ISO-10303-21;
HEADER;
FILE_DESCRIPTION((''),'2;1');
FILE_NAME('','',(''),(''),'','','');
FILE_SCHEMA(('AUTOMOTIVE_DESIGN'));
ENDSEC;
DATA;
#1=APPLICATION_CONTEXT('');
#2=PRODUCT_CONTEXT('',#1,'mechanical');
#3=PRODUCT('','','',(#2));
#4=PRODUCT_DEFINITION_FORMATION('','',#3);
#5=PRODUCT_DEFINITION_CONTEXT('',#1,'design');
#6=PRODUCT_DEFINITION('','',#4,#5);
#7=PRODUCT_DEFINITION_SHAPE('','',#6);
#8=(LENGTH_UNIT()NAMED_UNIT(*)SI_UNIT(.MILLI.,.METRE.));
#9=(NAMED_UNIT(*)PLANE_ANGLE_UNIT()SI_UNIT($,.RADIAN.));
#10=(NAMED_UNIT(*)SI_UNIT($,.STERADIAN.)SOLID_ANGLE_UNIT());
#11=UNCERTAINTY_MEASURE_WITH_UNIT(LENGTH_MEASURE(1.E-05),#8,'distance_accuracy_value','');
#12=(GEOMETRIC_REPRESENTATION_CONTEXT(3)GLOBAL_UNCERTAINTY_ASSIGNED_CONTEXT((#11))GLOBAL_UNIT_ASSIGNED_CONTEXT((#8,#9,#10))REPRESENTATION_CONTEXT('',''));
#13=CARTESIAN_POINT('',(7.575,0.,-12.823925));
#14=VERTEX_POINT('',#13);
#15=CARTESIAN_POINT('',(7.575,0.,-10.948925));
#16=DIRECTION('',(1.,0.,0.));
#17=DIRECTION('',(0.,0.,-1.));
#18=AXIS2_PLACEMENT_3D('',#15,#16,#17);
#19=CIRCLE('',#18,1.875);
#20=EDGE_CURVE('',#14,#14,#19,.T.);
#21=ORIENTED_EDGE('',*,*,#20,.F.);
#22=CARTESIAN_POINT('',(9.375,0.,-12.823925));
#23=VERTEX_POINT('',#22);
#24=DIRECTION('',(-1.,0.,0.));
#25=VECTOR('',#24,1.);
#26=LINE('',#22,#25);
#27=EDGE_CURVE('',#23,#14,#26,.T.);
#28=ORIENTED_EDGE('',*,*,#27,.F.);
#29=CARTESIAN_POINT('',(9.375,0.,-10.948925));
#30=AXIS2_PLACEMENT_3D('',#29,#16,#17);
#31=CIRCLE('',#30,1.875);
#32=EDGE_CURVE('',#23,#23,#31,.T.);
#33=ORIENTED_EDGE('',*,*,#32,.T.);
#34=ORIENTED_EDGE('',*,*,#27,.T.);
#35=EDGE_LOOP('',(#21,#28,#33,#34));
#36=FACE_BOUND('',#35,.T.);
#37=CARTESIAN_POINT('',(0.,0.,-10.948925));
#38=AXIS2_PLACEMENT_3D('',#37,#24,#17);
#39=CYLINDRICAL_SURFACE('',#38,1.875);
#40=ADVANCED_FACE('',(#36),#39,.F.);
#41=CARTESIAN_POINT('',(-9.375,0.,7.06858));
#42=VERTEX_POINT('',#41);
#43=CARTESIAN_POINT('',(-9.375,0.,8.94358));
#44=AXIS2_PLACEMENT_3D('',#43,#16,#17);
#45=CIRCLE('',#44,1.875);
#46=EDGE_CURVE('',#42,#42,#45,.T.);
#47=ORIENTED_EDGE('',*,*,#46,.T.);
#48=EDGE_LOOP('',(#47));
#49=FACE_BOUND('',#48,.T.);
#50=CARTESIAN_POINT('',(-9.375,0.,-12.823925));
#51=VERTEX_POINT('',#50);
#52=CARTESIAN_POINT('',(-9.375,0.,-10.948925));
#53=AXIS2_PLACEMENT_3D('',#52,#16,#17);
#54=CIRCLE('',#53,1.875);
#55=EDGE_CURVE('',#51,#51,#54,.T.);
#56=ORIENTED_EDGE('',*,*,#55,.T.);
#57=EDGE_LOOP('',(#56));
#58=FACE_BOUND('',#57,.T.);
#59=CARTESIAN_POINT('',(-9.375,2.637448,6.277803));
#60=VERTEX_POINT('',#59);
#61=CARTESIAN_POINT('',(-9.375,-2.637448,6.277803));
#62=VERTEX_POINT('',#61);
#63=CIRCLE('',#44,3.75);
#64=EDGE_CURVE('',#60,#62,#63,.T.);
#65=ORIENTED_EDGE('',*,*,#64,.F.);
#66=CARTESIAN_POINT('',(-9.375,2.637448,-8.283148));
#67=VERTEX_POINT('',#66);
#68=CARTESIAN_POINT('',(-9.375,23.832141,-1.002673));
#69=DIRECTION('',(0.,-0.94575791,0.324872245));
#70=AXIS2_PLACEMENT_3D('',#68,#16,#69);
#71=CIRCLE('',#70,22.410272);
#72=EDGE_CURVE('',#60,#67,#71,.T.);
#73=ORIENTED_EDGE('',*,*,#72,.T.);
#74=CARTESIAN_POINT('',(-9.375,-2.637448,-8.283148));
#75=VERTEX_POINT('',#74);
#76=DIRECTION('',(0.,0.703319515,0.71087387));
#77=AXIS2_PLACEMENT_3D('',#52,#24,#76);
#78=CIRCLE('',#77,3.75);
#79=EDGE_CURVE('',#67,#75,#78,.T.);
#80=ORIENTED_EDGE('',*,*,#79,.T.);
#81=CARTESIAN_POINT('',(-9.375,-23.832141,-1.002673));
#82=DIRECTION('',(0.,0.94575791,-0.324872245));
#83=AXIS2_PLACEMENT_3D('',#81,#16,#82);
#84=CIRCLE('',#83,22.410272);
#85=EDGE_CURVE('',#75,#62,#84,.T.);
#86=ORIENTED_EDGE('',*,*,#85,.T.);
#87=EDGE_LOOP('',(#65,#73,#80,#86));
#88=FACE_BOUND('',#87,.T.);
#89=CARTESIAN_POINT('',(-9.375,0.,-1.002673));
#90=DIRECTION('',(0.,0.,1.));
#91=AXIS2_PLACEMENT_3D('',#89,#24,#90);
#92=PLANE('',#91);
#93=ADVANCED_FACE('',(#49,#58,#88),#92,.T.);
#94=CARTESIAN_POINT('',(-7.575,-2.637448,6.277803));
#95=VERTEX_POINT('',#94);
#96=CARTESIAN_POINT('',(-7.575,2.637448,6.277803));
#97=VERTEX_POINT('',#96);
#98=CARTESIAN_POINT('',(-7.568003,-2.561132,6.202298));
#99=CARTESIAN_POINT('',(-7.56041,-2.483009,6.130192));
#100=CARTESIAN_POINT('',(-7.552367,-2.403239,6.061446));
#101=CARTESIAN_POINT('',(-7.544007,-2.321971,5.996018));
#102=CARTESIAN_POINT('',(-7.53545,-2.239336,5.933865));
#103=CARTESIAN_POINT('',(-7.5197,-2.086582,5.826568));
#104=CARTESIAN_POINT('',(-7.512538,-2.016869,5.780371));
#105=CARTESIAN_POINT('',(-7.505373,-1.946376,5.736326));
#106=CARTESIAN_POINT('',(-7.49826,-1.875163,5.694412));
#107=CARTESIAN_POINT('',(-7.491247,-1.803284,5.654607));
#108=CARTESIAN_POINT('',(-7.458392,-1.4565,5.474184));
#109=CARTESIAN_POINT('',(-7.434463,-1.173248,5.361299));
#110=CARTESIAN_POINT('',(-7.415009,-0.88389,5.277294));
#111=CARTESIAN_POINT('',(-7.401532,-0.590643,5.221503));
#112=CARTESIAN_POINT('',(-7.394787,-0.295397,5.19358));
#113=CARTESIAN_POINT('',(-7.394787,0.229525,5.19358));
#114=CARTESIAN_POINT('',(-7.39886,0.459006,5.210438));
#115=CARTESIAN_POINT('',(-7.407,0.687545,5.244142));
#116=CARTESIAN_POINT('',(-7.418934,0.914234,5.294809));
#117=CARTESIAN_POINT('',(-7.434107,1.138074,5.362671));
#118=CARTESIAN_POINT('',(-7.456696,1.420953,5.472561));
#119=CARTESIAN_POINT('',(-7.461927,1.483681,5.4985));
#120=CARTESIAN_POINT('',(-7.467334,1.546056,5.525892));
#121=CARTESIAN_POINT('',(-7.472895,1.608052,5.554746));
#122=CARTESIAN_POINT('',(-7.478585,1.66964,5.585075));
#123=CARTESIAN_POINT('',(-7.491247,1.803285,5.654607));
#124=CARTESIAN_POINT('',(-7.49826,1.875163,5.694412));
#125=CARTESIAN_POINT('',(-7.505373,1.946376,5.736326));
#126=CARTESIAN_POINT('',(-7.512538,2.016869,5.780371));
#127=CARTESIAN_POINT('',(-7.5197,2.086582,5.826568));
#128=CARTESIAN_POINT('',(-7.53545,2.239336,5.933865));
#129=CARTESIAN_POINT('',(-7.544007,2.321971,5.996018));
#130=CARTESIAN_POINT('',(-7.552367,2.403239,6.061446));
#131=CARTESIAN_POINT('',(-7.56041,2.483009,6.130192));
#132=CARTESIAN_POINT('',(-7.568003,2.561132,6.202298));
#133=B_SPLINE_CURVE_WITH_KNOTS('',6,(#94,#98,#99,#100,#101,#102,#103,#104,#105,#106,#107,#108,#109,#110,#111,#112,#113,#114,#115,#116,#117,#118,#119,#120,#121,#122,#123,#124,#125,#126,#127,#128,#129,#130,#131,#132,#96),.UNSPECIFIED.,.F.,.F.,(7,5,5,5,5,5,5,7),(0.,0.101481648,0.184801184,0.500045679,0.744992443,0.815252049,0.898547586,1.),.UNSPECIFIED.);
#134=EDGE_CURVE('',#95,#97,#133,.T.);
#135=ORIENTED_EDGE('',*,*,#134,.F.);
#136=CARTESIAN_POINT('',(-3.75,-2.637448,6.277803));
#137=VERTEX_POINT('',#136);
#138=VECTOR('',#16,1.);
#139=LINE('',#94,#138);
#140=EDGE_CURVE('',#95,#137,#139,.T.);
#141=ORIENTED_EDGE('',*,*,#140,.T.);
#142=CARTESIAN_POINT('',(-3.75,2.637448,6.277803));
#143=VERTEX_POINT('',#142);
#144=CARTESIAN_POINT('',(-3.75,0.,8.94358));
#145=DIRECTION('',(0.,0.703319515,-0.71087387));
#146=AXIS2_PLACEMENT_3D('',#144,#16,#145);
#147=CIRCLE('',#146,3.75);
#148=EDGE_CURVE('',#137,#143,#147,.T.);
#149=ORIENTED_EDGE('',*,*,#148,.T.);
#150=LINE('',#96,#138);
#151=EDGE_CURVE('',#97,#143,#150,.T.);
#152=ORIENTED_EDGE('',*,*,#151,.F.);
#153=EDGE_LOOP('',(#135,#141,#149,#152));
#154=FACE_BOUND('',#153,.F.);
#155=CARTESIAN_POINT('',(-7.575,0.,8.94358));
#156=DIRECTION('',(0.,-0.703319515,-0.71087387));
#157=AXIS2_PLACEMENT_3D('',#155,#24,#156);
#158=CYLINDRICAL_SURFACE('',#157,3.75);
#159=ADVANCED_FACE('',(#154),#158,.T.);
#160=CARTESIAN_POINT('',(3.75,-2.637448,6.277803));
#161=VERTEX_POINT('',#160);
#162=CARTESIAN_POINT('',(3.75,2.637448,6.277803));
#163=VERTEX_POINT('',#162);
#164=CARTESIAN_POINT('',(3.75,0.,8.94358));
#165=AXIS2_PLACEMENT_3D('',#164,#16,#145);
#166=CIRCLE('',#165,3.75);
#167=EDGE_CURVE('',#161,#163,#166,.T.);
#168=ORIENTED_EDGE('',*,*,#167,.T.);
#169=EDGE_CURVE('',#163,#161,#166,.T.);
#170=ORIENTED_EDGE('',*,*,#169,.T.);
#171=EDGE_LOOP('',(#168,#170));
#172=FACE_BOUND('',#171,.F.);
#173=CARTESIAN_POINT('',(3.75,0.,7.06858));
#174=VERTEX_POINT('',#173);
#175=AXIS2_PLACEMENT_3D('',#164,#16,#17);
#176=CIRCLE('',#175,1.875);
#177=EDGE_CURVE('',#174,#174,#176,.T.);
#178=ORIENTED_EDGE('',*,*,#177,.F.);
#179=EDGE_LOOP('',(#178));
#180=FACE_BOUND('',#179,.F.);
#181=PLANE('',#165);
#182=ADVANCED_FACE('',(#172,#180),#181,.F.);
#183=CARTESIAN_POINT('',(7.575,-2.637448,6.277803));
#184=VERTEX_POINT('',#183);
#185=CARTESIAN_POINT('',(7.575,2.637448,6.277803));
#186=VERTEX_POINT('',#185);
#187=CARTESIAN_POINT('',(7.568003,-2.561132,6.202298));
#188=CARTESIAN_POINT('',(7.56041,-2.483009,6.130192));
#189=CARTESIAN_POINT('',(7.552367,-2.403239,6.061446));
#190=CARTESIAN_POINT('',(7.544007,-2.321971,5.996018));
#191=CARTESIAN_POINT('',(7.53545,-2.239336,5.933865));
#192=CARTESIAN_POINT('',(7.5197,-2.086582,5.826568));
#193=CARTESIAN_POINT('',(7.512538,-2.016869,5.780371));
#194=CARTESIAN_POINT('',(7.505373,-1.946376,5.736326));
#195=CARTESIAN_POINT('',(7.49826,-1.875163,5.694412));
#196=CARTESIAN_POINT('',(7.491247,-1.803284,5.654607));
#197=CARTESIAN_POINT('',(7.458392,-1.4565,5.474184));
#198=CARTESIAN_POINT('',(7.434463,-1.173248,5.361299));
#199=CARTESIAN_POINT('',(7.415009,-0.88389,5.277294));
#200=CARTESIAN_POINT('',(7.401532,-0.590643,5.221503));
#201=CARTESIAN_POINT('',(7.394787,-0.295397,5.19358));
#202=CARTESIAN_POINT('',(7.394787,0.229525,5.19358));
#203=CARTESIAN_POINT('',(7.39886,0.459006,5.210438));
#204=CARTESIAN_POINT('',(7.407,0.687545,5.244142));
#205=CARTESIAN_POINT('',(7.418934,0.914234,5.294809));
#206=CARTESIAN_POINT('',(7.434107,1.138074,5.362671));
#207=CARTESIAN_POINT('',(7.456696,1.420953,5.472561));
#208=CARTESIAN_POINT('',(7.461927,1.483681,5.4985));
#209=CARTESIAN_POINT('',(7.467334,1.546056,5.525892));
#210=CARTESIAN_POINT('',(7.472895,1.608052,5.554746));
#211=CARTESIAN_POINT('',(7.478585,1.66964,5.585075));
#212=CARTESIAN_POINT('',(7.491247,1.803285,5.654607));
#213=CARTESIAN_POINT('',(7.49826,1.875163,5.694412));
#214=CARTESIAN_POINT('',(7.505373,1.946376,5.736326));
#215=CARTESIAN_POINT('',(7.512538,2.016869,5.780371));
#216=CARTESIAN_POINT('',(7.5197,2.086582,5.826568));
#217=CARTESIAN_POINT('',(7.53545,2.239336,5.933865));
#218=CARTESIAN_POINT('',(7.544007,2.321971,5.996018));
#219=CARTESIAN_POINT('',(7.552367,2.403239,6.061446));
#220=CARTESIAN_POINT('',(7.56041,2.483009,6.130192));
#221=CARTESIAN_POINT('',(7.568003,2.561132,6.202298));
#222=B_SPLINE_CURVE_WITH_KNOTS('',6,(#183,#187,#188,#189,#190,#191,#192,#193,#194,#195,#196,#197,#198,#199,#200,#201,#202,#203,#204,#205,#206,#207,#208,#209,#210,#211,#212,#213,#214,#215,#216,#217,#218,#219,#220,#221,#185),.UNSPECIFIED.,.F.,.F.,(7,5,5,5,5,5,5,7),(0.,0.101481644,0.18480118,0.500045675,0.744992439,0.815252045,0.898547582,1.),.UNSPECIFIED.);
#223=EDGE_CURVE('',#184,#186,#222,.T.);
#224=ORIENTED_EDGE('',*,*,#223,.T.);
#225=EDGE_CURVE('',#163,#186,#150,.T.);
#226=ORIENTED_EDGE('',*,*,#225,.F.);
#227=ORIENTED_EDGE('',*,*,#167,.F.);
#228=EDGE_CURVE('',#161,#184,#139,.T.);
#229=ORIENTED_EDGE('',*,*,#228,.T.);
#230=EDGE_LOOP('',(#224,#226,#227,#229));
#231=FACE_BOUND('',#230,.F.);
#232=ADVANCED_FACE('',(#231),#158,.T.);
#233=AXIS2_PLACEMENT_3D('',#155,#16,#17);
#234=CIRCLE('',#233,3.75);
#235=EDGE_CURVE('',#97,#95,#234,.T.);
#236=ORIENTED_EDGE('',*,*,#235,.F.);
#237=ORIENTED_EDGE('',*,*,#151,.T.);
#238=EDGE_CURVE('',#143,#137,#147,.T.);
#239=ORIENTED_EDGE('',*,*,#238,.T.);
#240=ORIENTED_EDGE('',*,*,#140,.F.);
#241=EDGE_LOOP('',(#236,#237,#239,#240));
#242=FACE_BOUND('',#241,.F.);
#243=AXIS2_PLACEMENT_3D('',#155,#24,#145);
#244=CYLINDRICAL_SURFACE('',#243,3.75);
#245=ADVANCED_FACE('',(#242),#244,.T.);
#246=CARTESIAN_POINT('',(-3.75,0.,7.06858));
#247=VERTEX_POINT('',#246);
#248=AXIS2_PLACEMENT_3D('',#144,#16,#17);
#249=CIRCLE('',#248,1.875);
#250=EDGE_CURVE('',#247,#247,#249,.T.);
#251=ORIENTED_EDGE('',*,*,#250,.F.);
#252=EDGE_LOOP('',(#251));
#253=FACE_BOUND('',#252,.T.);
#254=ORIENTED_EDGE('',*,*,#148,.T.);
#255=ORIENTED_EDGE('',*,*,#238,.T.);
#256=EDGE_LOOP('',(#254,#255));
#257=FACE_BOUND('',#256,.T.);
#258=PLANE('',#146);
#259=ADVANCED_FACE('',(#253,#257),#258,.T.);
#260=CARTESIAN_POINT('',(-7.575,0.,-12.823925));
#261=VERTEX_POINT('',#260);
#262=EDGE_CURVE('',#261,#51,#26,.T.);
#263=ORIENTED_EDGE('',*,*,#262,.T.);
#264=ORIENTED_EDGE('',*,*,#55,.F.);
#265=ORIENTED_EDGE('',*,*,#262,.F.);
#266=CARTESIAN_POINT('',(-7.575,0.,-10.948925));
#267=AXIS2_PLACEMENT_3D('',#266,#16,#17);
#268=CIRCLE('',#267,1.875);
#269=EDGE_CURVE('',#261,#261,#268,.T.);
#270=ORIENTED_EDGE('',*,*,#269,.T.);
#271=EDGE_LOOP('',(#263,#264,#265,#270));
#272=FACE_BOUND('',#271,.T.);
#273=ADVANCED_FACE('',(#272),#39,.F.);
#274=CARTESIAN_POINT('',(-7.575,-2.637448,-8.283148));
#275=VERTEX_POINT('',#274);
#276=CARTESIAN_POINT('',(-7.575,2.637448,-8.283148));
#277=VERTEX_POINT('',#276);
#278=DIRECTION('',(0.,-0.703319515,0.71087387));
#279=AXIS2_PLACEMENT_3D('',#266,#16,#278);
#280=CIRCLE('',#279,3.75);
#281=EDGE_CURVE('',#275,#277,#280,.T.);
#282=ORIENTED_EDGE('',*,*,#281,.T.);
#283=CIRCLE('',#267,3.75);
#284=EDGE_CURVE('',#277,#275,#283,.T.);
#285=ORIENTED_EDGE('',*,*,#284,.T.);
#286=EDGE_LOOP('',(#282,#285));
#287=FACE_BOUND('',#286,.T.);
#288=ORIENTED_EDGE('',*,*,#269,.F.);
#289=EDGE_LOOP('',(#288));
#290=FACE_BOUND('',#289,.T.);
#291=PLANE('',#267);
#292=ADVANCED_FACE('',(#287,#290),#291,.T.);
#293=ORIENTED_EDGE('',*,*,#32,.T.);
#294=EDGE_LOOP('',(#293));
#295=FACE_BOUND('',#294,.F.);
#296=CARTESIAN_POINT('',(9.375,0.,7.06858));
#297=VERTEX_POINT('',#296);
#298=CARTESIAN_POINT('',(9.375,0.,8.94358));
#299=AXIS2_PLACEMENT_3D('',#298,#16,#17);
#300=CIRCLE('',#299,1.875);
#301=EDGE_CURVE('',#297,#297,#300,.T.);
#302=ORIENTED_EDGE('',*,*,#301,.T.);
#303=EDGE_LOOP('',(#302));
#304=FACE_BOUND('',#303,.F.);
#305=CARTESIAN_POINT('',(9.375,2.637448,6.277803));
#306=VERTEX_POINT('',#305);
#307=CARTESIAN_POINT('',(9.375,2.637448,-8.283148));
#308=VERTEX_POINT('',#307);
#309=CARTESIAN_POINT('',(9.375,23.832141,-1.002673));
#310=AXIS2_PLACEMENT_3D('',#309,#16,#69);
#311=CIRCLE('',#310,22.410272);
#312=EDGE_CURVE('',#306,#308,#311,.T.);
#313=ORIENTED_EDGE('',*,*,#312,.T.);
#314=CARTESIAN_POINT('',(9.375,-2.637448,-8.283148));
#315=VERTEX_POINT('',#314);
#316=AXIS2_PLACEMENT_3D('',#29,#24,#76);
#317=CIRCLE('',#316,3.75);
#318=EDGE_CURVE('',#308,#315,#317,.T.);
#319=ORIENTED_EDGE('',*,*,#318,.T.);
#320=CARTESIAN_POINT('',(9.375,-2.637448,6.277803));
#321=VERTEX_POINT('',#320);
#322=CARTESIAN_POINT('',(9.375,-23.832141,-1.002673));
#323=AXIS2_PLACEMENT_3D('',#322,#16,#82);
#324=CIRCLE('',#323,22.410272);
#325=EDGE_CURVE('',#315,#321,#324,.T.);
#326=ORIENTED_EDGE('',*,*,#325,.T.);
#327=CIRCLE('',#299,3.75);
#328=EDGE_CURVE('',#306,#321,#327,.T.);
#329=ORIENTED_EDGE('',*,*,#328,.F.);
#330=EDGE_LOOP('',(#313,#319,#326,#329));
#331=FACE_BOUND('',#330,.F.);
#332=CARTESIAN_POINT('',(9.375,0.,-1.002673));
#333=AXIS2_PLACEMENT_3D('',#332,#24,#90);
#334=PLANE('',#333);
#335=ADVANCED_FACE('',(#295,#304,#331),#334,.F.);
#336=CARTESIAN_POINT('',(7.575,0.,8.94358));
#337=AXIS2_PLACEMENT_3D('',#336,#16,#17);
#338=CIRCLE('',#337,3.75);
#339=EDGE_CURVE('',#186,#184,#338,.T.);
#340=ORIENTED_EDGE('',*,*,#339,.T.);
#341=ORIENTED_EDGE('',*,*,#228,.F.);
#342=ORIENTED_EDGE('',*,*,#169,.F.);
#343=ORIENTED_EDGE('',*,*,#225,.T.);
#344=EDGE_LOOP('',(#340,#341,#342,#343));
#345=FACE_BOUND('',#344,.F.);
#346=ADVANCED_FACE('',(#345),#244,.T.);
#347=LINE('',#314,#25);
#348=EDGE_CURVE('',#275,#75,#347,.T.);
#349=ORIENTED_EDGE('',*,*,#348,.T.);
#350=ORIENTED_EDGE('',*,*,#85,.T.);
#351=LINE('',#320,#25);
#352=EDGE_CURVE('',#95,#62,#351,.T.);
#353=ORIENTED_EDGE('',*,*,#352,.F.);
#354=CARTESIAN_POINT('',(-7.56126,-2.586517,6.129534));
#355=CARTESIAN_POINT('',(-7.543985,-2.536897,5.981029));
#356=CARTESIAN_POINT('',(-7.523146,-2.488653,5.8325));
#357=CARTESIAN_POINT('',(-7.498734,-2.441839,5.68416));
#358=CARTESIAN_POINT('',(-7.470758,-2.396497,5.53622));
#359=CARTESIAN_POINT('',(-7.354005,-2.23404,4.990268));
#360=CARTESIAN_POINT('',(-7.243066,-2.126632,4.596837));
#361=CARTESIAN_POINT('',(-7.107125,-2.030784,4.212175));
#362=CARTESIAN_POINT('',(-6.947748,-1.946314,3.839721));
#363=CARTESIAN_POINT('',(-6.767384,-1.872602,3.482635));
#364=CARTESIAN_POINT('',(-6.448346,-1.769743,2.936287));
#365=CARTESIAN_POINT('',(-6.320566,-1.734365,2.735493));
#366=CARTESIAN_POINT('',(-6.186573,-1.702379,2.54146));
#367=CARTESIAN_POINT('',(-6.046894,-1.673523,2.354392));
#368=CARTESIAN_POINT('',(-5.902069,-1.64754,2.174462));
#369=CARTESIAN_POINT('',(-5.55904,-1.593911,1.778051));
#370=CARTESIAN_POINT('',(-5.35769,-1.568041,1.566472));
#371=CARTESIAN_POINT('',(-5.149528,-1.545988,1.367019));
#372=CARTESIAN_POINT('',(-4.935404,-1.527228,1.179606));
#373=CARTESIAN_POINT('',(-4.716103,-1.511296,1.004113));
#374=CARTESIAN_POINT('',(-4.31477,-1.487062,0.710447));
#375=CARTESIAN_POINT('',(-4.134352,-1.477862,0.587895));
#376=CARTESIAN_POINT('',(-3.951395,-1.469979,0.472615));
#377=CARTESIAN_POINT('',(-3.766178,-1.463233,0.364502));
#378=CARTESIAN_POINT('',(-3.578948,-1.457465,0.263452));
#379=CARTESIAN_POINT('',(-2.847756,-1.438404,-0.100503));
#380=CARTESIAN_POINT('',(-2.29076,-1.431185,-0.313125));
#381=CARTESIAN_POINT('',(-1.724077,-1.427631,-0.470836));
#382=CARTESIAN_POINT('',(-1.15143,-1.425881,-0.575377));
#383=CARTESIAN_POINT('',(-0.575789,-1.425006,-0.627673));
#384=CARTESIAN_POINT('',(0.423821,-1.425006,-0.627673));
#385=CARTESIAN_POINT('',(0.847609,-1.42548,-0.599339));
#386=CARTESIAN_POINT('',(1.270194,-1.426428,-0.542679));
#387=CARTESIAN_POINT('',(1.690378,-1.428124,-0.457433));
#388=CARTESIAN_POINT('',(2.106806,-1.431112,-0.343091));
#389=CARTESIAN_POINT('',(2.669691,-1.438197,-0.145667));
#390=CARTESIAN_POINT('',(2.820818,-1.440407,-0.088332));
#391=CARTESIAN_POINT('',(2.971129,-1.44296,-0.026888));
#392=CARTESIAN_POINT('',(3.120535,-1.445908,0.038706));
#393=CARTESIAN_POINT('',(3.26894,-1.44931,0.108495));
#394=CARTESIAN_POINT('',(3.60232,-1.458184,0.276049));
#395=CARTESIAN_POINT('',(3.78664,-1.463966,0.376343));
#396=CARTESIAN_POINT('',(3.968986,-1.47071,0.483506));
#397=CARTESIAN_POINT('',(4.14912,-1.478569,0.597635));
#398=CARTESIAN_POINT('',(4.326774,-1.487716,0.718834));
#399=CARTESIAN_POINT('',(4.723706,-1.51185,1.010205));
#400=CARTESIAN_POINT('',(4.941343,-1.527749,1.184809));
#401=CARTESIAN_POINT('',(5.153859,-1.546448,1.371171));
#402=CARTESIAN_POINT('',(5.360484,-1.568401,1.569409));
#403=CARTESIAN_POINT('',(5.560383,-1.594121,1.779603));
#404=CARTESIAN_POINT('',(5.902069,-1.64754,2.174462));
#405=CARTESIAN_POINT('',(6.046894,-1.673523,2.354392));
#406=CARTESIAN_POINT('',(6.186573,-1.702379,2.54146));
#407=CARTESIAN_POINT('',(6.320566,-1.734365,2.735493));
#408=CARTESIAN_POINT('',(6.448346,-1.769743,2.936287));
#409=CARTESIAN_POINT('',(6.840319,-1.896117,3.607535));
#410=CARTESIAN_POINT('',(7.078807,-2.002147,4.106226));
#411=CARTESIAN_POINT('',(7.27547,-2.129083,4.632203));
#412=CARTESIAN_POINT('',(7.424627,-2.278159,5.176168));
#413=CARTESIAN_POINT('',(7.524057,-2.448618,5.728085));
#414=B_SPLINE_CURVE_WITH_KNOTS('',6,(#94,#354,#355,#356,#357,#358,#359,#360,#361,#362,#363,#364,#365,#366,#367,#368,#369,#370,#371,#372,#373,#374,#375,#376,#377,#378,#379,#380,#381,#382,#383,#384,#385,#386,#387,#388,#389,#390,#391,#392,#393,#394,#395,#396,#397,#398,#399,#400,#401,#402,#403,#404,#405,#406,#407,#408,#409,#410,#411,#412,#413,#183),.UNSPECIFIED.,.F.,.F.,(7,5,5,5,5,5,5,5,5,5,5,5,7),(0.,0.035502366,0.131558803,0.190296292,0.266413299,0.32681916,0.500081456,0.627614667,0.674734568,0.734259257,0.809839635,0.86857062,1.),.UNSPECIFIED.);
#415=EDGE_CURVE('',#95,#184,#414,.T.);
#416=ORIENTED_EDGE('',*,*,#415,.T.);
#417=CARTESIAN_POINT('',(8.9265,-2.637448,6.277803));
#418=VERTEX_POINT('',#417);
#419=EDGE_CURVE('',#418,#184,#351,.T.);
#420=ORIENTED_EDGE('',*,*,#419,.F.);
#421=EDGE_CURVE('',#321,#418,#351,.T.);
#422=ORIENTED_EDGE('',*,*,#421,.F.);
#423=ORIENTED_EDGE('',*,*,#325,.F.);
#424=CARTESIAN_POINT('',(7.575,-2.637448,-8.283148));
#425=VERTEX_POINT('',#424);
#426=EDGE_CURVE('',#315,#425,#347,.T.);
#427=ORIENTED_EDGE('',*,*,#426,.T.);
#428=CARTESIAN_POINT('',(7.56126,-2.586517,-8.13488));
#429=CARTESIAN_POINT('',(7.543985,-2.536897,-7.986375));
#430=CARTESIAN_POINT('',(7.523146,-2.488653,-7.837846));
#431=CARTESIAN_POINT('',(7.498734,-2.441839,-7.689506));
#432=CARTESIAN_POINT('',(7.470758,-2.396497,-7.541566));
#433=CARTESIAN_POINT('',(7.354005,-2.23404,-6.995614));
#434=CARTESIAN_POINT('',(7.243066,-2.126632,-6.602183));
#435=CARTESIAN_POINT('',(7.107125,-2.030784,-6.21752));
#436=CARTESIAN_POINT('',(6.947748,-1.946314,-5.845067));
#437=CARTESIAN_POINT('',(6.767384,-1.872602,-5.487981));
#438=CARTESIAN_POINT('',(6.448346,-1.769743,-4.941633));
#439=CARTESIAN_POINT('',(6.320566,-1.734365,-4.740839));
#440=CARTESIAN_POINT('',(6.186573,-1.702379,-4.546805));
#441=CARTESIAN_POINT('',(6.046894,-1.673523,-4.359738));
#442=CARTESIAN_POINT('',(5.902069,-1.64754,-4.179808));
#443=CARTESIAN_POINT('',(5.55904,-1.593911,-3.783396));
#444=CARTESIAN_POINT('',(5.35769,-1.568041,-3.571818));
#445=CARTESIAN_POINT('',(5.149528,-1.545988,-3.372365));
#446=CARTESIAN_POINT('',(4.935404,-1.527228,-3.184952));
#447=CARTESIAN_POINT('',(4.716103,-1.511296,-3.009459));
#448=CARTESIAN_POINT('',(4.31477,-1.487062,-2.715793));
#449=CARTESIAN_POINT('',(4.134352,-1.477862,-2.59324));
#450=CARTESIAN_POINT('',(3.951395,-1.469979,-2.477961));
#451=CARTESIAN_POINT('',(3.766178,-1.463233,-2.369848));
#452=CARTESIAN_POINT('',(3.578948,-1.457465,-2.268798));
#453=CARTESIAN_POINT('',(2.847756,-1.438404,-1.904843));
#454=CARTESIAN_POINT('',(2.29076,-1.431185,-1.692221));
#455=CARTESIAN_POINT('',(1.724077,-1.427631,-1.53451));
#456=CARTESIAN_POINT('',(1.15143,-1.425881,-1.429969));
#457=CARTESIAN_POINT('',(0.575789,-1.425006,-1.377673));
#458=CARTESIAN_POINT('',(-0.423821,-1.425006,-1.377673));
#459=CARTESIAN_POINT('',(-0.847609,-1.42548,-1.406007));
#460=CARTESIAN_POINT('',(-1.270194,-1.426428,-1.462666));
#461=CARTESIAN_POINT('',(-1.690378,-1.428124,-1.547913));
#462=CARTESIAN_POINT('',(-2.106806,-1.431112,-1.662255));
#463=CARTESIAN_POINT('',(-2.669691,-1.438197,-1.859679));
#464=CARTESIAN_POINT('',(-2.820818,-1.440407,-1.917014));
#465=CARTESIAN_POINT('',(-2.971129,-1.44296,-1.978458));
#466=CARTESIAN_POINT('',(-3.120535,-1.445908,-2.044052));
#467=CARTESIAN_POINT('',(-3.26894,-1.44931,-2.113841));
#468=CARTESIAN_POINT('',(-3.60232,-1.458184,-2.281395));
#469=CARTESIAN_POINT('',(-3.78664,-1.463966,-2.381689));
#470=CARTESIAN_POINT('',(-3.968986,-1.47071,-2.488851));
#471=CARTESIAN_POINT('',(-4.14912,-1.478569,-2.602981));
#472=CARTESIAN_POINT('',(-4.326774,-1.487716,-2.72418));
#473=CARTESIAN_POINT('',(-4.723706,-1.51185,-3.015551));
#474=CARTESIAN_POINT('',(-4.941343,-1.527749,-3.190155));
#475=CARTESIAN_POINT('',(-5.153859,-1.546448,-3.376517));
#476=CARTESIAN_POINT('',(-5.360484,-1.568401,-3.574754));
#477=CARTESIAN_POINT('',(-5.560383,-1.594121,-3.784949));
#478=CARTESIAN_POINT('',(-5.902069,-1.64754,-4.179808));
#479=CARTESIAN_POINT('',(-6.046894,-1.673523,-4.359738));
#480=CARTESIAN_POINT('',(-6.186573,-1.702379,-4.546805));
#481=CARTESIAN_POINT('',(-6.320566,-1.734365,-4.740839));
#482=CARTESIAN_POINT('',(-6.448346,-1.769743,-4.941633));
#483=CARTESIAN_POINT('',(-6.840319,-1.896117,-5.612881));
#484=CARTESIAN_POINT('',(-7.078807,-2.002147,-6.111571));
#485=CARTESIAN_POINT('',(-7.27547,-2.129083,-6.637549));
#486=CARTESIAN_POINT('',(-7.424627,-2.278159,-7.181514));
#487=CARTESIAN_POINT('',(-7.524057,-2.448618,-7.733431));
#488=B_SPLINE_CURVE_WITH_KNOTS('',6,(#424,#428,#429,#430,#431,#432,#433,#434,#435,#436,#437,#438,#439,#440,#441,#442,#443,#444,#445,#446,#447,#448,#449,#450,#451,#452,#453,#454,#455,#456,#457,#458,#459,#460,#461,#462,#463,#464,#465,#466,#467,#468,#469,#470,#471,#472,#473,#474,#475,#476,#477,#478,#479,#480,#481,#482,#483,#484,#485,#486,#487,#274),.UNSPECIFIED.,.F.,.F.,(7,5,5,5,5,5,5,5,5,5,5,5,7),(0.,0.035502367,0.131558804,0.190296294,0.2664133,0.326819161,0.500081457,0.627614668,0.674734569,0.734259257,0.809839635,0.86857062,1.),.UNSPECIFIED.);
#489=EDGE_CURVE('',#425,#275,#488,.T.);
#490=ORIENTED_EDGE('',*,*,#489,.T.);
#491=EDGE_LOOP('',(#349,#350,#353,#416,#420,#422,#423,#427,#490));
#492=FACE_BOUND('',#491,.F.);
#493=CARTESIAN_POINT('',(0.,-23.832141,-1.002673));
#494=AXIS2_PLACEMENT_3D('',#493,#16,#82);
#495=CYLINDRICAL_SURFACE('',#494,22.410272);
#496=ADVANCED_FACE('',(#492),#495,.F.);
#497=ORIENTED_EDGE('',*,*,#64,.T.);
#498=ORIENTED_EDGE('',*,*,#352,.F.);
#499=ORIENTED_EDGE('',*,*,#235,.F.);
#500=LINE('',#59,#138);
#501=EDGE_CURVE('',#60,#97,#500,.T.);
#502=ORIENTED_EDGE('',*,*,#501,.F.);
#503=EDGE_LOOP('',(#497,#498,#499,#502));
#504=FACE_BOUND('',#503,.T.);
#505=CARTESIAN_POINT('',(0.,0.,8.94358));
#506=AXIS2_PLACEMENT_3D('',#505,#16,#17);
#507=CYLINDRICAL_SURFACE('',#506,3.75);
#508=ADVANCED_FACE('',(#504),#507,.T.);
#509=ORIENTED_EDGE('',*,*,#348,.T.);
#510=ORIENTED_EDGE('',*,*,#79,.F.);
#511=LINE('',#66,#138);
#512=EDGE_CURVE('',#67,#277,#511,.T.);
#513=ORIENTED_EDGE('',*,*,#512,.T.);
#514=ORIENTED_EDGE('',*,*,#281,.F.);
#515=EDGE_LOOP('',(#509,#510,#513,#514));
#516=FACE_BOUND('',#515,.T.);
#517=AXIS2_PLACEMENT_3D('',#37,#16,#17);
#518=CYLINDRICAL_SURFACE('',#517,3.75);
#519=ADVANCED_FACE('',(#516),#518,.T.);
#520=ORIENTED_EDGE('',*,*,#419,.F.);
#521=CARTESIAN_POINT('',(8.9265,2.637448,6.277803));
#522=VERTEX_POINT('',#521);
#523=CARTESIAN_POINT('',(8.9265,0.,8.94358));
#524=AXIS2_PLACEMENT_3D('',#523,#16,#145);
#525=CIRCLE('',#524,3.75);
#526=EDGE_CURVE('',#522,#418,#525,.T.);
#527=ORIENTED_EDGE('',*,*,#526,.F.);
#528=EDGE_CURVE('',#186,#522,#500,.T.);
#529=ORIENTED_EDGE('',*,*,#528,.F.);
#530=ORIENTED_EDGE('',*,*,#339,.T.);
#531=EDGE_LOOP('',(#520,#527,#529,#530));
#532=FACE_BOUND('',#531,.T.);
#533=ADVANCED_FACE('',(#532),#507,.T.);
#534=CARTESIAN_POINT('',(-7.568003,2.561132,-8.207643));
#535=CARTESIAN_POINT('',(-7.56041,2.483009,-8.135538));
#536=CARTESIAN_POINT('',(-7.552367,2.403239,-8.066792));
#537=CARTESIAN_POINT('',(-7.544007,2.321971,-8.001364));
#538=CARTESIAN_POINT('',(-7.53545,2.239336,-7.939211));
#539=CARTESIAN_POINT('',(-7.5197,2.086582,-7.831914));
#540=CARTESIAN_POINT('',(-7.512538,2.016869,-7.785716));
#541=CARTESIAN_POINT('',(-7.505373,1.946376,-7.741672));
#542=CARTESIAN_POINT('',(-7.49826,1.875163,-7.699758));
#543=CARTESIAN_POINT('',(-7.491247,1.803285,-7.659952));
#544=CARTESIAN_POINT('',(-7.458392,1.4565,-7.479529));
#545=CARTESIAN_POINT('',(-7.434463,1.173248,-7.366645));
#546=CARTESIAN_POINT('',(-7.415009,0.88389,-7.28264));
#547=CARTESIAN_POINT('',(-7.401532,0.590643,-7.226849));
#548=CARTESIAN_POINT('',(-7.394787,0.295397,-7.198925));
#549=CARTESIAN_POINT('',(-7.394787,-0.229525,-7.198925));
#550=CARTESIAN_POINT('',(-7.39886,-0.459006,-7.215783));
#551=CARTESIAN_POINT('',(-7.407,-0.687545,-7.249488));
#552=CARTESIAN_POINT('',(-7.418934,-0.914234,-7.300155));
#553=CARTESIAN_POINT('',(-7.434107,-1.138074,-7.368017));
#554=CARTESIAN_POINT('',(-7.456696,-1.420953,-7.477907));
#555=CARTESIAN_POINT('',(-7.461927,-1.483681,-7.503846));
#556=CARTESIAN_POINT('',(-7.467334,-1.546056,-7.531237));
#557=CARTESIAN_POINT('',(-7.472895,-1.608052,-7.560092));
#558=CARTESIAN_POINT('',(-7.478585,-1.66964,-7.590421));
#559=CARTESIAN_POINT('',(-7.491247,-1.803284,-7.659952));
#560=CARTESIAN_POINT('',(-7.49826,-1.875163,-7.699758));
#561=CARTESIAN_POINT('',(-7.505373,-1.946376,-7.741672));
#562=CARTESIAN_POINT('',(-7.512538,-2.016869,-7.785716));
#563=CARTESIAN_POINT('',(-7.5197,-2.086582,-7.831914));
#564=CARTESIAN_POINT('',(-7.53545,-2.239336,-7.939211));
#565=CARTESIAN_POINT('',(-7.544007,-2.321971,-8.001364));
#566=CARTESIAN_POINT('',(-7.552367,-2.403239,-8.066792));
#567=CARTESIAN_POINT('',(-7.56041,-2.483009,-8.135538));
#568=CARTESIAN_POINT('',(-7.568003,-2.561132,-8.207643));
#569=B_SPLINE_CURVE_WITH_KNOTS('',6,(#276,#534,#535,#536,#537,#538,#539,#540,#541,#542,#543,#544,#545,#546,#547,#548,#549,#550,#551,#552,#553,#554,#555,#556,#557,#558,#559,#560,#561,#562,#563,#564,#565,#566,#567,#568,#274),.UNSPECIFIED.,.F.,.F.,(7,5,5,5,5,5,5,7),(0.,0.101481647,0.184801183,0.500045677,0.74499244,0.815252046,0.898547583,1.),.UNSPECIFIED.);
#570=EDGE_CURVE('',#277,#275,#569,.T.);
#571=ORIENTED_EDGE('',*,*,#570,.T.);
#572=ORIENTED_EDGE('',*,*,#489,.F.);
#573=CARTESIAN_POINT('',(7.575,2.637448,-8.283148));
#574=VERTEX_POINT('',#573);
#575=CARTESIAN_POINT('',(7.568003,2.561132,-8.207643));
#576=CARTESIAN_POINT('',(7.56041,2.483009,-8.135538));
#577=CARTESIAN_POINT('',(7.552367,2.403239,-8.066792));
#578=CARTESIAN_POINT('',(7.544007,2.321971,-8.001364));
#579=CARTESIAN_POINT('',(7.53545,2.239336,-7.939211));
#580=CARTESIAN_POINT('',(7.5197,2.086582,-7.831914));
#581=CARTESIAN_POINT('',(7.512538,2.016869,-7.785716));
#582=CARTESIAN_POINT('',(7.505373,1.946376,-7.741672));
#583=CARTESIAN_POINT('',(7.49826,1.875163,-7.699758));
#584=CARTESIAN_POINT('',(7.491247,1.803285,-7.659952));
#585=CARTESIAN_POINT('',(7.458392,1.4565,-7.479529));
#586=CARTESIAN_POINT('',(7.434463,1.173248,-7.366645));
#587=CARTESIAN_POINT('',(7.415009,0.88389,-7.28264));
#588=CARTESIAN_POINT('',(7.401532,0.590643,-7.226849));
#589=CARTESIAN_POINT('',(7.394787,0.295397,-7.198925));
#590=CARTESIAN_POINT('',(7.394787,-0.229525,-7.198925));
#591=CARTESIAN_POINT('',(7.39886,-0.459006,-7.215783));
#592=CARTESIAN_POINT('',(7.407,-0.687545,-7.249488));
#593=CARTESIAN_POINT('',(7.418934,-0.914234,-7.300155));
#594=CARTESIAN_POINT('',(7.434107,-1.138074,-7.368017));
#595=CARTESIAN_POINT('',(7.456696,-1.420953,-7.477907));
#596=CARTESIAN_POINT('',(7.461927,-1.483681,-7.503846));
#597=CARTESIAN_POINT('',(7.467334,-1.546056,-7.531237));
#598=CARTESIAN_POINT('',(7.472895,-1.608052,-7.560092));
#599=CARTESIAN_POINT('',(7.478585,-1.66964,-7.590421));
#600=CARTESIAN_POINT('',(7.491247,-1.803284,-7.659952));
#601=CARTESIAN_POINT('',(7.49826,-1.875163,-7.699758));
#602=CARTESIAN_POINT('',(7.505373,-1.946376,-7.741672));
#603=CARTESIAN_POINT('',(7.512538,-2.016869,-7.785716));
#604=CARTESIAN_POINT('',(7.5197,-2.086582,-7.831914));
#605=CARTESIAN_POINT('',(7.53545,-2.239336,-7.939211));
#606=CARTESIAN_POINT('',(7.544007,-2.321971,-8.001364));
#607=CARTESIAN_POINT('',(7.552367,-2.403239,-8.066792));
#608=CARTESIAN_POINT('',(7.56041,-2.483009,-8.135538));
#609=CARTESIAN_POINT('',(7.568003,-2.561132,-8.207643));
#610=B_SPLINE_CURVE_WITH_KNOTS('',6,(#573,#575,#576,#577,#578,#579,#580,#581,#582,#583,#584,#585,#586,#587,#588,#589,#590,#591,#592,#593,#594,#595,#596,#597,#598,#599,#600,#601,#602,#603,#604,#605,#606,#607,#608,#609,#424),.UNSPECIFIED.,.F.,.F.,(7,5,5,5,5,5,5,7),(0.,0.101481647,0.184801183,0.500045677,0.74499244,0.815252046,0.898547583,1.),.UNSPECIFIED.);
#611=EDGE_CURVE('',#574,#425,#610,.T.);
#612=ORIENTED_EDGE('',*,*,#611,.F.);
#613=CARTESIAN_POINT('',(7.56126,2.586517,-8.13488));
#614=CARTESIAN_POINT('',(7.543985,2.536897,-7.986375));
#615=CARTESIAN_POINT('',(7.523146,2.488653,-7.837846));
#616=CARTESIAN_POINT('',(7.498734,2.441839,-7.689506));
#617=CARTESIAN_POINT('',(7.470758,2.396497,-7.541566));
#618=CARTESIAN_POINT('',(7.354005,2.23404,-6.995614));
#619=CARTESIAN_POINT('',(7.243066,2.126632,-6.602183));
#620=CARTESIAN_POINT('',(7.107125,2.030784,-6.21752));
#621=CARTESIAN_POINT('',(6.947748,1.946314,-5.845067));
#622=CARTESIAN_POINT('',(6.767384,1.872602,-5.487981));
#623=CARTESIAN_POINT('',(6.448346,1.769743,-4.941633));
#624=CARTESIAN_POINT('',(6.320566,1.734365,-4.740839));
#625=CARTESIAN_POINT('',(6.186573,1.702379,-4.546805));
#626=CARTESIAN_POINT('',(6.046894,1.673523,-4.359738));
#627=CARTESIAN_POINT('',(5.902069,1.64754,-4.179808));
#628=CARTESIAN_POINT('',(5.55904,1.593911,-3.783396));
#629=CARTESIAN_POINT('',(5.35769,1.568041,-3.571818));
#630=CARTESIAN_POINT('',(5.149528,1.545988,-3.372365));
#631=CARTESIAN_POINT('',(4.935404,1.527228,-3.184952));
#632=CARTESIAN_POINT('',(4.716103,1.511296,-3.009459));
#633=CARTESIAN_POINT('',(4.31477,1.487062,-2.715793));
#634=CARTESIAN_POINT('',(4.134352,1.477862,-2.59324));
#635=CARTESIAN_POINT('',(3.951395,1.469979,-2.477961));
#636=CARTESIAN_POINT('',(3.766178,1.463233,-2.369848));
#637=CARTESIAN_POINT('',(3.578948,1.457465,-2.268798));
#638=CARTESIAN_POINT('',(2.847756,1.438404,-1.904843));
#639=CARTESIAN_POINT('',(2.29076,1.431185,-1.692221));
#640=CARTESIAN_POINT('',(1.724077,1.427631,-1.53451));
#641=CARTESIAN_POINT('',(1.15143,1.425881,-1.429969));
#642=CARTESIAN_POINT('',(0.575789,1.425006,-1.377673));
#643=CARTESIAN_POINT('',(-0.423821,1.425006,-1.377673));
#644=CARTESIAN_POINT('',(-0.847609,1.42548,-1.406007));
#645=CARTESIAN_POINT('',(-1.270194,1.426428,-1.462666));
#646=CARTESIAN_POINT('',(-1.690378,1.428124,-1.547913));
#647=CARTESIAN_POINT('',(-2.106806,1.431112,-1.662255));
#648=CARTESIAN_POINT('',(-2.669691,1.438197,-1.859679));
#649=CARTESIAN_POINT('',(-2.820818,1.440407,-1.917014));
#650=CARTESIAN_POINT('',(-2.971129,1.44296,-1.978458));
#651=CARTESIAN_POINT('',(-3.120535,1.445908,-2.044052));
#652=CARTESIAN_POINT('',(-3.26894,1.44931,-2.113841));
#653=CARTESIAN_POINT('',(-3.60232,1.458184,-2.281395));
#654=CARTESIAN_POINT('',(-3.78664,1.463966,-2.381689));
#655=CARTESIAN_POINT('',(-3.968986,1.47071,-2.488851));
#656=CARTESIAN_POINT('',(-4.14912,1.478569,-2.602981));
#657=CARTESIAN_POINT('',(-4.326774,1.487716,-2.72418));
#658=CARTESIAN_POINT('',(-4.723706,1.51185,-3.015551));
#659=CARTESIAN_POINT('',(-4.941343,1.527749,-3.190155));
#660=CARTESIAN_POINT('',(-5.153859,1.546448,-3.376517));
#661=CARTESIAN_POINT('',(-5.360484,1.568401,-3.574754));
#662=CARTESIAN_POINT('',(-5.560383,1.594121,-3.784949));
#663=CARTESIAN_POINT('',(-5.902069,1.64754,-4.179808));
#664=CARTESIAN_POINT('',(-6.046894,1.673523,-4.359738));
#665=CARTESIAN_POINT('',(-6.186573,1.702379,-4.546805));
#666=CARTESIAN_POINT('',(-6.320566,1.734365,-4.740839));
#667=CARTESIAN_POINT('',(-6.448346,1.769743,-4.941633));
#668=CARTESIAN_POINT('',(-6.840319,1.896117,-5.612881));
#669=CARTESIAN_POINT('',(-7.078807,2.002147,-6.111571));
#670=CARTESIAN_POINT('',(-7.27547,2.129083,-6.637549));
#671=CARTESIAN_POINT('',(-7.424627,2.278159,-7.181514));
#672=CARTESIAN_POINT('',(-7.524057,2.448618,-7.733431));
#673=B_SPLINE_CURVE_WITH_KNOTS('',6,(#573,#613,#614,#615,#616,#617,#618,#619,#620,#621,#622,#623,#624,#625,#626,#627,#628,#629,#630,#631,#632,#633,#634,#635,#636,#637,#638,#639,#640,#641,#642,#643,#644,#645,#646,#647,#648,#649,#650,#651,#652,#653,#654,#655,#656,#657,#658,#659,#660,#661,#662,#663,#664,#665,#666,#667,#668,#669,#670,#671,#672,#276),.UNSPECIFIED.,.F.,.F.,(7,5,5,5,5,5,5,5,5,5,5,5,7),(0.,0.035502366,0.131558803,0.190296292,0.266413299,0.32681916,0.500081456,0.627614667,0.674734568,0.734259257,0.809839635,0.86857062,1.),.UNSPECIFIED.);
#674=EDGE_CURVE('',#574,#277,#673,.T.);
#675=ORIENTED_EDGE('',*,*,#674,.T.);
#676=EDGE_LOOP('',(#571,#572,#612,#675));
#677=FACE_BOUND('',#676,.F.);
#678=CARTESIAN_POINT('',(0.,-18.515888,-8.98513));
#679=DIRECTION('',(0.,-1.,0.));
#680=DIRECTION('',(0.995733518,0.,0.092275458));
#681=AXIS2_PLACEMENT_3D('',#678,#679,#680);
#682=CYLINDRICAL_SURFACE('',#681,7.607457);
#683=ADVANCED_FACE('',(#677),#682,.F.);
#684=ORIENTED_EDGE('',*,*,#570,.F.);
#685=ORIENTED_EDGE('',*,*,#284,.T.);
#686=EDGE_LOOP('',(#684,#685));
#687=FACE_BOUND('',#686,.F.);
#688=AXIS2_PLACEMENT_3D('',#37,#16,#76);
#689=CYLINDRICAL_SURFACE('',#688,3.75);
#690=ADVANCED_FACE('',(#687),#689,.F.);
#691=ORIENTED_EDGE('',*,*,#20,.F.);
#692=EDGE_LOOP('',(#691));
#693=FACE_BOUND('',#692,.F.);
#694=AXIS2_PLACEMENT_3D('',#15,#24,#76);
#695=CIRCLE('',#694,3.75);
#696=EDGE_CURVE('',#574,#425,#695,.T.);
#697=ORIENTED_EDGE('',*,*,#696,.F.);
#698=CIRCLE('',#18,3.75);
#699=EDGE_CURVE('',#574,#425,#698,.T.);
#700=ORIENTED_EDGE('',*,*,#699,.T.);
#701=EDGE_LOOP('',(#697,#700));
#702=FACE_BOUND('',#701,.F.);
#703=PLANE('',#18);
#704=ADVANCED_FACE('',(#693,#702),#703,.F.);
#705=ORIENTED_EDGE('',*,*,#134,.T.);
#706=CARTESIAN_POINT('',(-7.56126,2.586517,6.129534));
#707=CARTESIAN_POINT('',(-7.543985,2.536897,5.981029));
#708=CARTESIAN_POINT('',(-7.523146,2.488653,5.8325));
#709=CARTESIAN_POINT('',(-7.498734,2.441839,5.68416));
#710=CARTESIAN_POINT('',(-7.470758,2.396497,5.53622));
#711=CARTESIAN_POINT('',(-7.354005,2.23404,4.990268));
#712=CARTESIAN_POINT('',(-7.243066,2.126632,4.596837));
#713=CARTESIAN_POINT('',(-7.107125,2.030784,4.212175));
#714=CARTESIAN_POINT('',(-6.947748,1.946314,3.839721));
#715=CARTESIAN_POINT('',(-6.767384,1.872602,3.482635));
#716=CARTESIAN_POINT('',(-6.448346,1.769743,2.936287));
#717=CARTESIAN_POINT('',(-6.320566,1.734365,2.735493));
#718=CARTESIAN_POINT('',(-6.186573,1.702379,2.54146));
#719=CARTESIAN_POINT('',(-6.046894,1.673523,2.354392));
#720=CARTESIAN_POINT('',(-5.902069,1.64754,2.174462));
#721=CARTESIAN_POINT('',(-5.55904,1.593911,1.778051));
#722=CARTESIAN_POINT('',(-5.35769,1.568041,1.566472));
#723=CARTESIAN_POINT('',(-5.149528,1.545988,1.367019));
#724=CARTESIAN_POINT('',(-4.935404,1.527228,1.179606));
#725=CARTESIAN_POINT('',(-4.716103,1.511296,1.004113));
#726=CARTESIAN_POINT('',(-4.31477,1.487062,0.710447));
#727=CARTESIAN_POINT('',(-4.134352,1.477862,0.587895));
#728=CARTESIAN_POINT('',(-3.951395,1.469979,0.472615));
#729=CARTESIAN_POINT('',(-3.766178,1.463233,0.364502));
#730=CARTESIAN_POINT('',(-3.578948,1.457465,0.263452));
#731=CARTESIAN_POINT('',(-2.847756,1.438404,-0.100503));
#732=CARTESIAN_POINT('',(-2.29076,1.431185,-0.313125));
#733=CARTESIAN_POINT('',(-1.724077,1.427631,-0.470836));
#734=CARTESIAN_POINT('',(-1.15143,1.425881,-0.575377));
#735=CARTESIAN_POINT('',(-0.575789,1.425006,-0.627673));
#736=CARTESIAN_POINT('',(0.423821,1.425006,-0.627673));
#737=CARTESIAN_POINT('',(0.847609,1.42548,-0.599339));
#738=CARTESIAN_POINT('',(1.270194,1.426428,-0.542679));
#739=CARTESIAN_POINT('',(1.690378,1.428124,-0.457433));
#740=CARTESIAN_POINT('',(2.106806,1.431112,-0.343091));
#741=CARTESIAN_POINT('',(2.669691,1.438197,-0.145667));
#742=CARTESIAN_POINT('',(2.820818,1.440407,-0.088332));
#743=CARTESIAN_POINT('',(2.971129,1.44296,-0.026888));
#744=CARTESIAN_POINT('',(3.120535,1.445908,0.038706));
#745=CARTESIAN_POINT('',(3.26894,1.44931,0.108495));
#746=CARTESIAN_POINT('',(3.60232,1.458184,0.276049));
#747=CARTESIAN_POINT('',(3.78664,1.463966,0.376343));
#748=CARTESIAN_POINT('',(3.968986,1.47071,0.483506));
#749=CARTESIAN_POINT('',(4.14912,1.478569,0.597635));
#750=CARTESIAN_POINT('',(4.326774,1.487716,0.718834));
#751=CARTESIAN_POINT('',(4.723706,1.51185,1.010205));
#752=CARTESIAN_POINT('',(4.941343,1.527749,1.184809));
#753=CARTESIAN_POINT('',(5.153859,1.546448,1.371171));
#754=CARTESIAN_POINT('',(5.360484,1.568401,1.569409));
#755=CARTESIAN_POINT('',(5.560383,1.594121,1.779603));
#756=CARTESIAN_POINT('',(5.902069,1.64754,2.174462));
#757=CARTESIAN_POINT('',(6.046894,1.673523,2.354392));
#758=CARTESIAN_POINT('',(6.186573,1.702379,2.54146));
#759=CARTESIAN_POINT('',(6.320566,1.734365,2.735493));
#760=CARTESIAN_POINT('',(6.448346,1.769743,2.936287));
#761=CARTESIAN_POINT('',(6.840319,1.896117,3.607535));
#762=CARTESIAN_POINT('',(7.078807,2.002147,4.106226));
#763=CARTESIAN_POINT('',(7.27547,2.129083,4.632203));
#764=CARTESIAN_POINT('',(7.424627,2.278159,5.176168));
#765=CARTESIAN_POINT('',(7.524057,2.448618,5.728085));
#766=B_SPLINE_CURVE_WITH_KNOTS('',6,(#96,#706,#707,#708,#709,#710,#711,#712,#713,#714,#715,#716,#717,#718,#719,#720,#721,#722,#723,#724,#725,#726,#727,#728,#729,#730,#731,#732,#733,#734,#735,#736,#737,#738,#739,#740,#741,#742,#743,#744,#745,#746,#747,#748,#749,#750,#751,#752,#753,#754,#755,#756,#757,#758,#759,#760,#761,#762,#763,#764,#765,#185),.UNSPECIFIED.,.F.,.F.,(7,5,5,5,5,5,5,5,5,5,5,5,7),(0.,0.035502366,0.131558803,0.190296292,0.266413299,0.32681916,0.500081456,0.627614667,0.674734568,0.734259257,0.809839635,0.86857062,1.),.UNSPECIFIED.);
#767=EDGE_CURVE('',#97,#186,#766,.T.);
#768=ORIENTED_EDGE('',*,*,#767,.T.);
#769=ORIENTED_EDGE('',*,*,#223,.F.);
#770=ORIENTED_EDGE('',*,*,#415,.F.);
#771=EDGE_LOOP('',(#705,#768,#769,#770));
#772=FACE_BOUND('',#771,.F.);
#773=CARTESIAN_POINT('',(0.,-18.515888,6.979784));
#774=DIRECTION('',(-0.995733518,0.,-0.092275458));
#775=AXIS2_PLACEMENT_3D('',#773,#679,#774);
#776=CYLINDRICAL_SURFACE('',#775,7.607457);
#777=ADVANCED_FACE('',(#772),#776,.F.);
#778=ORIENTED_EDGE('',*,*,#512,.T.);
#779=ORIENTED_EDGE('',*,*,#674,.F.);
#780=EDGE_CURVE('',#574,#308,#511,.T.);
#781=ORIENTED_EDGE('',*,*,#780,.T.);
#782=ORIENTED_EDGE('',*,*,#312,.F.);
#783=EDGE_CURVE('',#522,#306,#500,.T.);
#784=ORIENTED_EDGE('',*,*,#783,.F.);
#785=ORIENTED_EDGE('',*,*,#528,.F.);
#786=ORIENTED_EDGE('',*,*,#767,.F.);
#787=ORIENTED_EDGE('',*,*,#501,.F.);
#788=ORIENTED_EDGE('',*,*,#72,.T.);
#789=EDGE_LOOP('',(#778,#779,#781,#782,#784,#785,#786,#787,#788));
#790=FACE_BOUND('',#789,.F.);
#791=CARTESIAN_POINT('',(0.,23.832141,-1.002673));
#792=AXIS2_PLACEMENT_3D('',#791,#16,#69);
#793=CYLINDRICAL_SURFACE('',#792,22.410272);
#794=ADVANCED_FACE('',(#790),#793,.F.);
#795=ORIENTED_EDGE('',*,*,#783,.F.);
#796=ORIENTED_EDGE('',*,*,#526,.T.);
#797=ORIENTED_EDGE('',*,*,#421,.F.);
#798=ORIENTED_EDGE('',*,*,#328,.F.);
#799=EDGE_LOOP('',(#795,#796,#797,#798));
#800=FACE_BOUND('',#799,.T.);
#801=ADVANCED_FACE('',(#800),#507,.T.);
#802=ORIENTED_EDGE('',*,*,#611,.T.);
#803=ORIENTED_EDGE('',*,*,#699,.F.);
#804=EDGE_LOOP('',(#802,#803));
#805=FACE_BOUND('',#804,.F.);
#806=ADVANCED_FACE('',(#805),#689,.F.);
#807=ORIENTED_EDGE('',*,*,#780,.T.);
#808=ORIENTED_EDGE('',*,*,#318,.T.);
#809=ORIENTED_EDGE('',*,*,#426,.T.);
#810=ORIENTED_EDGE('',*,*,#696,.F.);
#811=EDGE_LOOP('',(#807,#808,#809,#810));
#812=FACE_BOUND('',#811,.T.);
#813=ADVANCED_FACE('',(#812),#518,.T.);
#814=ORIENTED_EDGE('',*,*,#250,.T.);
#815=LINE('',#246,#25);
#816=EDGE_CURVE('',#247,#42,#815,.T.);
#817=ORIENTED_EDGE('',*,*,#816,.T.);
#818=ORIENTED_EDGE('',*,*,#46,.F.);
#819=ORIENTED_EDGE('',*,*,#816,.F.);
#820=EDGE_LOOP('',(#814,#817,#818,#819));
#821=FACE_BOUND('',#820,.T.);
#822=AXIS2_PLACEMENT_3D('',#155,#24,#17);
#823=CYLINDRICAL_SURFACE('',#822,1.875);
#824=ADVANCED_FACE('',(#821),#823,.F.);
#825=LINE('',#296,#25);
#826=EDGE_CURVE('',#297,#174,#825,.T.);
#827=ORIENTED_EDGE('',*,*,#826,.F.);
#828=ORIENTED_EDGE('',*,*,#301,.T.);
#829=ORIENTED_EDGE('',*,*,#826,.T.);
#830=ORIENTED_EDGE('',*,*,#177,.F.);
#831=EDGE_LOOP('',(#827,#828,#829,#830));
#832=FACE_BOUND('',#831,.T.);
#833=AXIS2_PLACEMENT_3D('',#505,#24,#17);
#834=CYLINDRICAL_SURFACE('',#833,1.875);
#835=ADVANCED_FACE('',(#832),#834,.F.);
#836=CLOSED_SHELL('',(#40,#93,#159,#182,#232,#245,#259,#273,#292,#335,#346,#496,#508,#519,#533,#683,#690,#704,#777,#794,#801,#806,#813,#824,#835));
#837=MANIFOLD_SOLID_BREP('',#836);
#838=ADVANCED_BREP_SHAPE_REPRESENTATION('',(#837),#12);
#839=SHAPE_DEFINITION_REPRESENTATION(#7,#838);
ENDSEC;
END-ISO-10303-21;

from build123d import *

# Parameters (mm, degrees)
SKETCH2_R               = 2.5
SKETCH2_R_2             = 1.25
BOSS_EXTRUDE1_DEPTH     = 6.25
BOSS_EXTRUDE1_2_DEPTH   = 6.25
SKETCH3_R               = 2.5
SKETCH3_R_2             = 1.25
CUT_EXTRUDE1_DEPTH      = 5.05
BOSS_EXTRUDE2_DEPTH     = 6.25
CUT_EXTRUDE2_DEPTH      = 12.34392559
CUT_EXTRUDE2_DEPTH_BACK = 12.34392559
SKETCH6_R               = 1.25
BOSS_EXTRUDE3_DEPTH     = 11.001
SKETCH7_R               = 2.5
SKETCH7_R_2             = 1.25
CUT_EXTRUDE3_DEPTH      = 2.5
SCALE1_SCALE            = 1.5


with BuildPart() as part:
    # Sketch2 → Boss-Extrude1 (new, symmetric)
    with BuildSketch(Plane(origin=(0, 0, 0), x_dir=(0, 0, -1), z_dir=(1, 0, 0))):
        with Locations((6.630835, 0)):
            Circle(SKETCH2_R)
        with Locations((6.630835, 0)):
            Circle(SKETCH2_R_2, mode=Mode.SUBTRACT)
    extrude(amount=BOSS_EXTRUDE1_DEPTH, both=True)


with BuildPart() as body_2:
    # Sketch2 → Boss-Extrude1 2 (new, symmetric)
    with BuildSketch(Plane(origin=(0, 0, 0), x_dir=(0, 0, -1), z_dir=(1, 0, 0))):
        with Locations((-6.630835, 0)):
            Circle(SKETCH2_R)
        with Locations((-6.630835, 0)):
            Circle(SKETCH2_R_2, mode=Mode.SUBTRACT)
    extrude(amount=BOSS_EXTRUDE1_2_DEPTH, both=True)


with BuildPart() as cut_extrude1_tool:
    # Sketch3 → Cut-Extrude1 (new, symmetric)
    # profile 1 of 2: a face of its own
    with BuildSketch(Plane(origin=(0, 0, 0), x_dir=(0, 0, -1), z_dir=(1, 0, 0))):
        with Locations((6.630835, 0)):
            Circle(SKETCH3_R)
        with Locations((6.630835, 0)):
            Circle(SKETCH3_R_2, mode=Mode.SUBTRACT)
    # profile 2 of 2: a face of its own
    with BuildSketch(Plane(origin=(0, 0, 0), x_dir=(0, 0, -1), z_dir=(1, 0, 0))):
        with Locations((-6.630835, 0)):
            Circle(SKETCH3_R)
        with Locations((-6.630835, 0)):
            Circle(SKETCH3_R_2, mode=Mode.SUBTRACT)
    extrude(amount=CUT_EXTRUDE1_DEPTH, both=True)


with BuildPart() as part_1:
    add(part.part)

    # Cut-Extrude1: cut by cut_extrude1_tool
    add(cut_extrude1_tool.part, mode=Mode.SUBTRACT)


with BuildPart() as body_2_1:
    add(body_2.part)

    # Cut-Extrude1: cut by cut_extrude1_tool
    add(cut_extrude1_tool.part, mode=Mode.SUBTRACT)


with BuildPart() as cut_extrude1_piece_1:
    # of the separate pieces the step leaves, piece 1, a body of its own (cut_extrude1_pieces)
    add(part_1.part.solids().sort_by_distance((-6.25, 0, -9.130835))[0])



with BuildPart() as cut_extrude1_piece_2:
    # of the separate pieces the step leaves, piece 2, a body of its own (cut_extrude1_pieces)
    add(part_1.part.solids().sort_by_distance((5.05, 0, -9.130835))[0])


with BuildPart() as cut_extrude1_piece_1_of_body_2:
    # of the separate pieces the step leaves, piece 1, a body of its own (cut_extrude1_pieces_of_body_2)
    add(body_2_1.part.solids().sort_by_distance((-6.25, 0, 4.130835))[0])


with BuildPart() as cut_extrude1_piece_2_of_body_2:
    # of the separate pieces the step leaves, piece 2, a body of its own (cut_extrude1_pieces_of_body_2)
    add(body_2_1.part.solids().sort_by_distance((5.05, 0, 4.130835))[0])


with BuildPart() as cut_extrude1_piece_1_1:
    add(cut_extrude1_piece_1.part)

    add(cut_extrude1_piece_2.part)  # Boss-Extrude2 merges Cut-Extrude1 piece 2

    add(cut_extrude1_piece_1_of_body_2.part)  # Boss-Extrude2 merges Cut-Extrude1 piece 1 of body 2

    add(cut_extrude1_piece_2_of_body_2.part)  # Boss-Extrude2 merges Cut-Extrude1 piece 2 of body 2
    # Sketch4 → Boss-Extrude2 (add, symmetric)
    with BuildSketch(Plane(origin=(0, 0, 0), x_dir=(0, 0, -1), z_dir=(1, 0, 0))):
        with BuildLine():
            ThreePointArc((4.853650324, 1.758298788), (4.130835, 0), (4.853650324, -1.758298788))
            ThreePointArc((4.853650324, -1.758298788), (0, -0.947912117), (-4.853650324, -1.758298788))
            ThreePointArc((-4.853650324, -1.758298788), (-4.130835, 0), (-4.853650324, 1.758298788))
            ThreePointArc((-4.853650324, 1.758298788), (0, 0.947912117), (4.853650324, 1.758298788))
        make_face()
    extrude(amount=BOSS_EXTRUDE2_DEPTH, both=True)

    # Sketch5 → Cut-Extrude2 (cut, two sides: drawn at the far end of the back side and taken through both)
    with BuildSketch(Plane(origin=(0, 0, 0), x_dir=(1, 0, 0), z_dir=(0, 1, 0)).offset(-CUT_EXTRUDE2_DEPTH_BACK)):
        with BuildLine():
            Line((-5.05, 4.853650324), (5.05, 4.853650324))
            ThreePointArc((5.05, 4.853650324), (0, 0.25), (-5.05, 4.853650324))
        make_face()
        with BuildLine():
            Line((5.05, -4.853650324), (-5.05, -4.853650324))
            ThreePointArc((-5.05, -4.853650324), (0, -0.25), (5.05, -4.853650324))
        make_face()
    extrude(amount=CUT_EXTRUDE2_DEPTH + CUT_EXTRUDE2_DEPTH_BACK, mode=Mode.SUBTRACT)

    # Sketch6 → Boss-Extrude3 (add)
    with BuildSketch(Plane(origin=(-5.05, 0, 0), x_dir=(0, 0, -1), z_dir=(1, 0, 0))):
        with BuildLine():
            ThreePointArc((-4.853650324, 1.758298788), (-9.130835, 0), (-4.853650324, -1.758298788))
            ThreePointArc((-4.853650324, -1.758298788), (-4.130835, 0), (-4.853650324, 1.758298788))
        make_face()
        with Locations((-6.630835, 0)):
            Circle(SKETCH6_R, mode=Mode.SUBTRACT)
    extrude(amount=BOSS_EXTRUDE3_DEPTH)

    # Sketch7 → Cut-Extrude3 (cut, symmetric)
    with BuildSketch(Plane(origin=(0, 0, 0), x_dir=(0, 0, -1), z_dir=(1, 0, 0))):
        with Locations(Location((-6.630835, 0, 0), (0, 0, 44.693939637))):
            Circle(SKETCH7_R)
        with Locations((-6.630835, 0)):
            Circle(SKETCH7_R_2, mode=Mode.SUBTRACT)
    extrude(amount=CUT_EXTRUDE3_DEPTH, both=True, mode=Mode.SUBTRACT)


with BuildPart() as cut_extrude1_piece_1_2:
    # Scale1: scaled about (-1.5e-08, -4.9e-08, 2.005345841)
    add(cut_extrude1_piece_1_1.part.scale(SCALE1_SCALE).moved(Location((7e-09, 2.5e-08, -1.002672921))))


solid = cut_extrude1_piece_1_2.part
